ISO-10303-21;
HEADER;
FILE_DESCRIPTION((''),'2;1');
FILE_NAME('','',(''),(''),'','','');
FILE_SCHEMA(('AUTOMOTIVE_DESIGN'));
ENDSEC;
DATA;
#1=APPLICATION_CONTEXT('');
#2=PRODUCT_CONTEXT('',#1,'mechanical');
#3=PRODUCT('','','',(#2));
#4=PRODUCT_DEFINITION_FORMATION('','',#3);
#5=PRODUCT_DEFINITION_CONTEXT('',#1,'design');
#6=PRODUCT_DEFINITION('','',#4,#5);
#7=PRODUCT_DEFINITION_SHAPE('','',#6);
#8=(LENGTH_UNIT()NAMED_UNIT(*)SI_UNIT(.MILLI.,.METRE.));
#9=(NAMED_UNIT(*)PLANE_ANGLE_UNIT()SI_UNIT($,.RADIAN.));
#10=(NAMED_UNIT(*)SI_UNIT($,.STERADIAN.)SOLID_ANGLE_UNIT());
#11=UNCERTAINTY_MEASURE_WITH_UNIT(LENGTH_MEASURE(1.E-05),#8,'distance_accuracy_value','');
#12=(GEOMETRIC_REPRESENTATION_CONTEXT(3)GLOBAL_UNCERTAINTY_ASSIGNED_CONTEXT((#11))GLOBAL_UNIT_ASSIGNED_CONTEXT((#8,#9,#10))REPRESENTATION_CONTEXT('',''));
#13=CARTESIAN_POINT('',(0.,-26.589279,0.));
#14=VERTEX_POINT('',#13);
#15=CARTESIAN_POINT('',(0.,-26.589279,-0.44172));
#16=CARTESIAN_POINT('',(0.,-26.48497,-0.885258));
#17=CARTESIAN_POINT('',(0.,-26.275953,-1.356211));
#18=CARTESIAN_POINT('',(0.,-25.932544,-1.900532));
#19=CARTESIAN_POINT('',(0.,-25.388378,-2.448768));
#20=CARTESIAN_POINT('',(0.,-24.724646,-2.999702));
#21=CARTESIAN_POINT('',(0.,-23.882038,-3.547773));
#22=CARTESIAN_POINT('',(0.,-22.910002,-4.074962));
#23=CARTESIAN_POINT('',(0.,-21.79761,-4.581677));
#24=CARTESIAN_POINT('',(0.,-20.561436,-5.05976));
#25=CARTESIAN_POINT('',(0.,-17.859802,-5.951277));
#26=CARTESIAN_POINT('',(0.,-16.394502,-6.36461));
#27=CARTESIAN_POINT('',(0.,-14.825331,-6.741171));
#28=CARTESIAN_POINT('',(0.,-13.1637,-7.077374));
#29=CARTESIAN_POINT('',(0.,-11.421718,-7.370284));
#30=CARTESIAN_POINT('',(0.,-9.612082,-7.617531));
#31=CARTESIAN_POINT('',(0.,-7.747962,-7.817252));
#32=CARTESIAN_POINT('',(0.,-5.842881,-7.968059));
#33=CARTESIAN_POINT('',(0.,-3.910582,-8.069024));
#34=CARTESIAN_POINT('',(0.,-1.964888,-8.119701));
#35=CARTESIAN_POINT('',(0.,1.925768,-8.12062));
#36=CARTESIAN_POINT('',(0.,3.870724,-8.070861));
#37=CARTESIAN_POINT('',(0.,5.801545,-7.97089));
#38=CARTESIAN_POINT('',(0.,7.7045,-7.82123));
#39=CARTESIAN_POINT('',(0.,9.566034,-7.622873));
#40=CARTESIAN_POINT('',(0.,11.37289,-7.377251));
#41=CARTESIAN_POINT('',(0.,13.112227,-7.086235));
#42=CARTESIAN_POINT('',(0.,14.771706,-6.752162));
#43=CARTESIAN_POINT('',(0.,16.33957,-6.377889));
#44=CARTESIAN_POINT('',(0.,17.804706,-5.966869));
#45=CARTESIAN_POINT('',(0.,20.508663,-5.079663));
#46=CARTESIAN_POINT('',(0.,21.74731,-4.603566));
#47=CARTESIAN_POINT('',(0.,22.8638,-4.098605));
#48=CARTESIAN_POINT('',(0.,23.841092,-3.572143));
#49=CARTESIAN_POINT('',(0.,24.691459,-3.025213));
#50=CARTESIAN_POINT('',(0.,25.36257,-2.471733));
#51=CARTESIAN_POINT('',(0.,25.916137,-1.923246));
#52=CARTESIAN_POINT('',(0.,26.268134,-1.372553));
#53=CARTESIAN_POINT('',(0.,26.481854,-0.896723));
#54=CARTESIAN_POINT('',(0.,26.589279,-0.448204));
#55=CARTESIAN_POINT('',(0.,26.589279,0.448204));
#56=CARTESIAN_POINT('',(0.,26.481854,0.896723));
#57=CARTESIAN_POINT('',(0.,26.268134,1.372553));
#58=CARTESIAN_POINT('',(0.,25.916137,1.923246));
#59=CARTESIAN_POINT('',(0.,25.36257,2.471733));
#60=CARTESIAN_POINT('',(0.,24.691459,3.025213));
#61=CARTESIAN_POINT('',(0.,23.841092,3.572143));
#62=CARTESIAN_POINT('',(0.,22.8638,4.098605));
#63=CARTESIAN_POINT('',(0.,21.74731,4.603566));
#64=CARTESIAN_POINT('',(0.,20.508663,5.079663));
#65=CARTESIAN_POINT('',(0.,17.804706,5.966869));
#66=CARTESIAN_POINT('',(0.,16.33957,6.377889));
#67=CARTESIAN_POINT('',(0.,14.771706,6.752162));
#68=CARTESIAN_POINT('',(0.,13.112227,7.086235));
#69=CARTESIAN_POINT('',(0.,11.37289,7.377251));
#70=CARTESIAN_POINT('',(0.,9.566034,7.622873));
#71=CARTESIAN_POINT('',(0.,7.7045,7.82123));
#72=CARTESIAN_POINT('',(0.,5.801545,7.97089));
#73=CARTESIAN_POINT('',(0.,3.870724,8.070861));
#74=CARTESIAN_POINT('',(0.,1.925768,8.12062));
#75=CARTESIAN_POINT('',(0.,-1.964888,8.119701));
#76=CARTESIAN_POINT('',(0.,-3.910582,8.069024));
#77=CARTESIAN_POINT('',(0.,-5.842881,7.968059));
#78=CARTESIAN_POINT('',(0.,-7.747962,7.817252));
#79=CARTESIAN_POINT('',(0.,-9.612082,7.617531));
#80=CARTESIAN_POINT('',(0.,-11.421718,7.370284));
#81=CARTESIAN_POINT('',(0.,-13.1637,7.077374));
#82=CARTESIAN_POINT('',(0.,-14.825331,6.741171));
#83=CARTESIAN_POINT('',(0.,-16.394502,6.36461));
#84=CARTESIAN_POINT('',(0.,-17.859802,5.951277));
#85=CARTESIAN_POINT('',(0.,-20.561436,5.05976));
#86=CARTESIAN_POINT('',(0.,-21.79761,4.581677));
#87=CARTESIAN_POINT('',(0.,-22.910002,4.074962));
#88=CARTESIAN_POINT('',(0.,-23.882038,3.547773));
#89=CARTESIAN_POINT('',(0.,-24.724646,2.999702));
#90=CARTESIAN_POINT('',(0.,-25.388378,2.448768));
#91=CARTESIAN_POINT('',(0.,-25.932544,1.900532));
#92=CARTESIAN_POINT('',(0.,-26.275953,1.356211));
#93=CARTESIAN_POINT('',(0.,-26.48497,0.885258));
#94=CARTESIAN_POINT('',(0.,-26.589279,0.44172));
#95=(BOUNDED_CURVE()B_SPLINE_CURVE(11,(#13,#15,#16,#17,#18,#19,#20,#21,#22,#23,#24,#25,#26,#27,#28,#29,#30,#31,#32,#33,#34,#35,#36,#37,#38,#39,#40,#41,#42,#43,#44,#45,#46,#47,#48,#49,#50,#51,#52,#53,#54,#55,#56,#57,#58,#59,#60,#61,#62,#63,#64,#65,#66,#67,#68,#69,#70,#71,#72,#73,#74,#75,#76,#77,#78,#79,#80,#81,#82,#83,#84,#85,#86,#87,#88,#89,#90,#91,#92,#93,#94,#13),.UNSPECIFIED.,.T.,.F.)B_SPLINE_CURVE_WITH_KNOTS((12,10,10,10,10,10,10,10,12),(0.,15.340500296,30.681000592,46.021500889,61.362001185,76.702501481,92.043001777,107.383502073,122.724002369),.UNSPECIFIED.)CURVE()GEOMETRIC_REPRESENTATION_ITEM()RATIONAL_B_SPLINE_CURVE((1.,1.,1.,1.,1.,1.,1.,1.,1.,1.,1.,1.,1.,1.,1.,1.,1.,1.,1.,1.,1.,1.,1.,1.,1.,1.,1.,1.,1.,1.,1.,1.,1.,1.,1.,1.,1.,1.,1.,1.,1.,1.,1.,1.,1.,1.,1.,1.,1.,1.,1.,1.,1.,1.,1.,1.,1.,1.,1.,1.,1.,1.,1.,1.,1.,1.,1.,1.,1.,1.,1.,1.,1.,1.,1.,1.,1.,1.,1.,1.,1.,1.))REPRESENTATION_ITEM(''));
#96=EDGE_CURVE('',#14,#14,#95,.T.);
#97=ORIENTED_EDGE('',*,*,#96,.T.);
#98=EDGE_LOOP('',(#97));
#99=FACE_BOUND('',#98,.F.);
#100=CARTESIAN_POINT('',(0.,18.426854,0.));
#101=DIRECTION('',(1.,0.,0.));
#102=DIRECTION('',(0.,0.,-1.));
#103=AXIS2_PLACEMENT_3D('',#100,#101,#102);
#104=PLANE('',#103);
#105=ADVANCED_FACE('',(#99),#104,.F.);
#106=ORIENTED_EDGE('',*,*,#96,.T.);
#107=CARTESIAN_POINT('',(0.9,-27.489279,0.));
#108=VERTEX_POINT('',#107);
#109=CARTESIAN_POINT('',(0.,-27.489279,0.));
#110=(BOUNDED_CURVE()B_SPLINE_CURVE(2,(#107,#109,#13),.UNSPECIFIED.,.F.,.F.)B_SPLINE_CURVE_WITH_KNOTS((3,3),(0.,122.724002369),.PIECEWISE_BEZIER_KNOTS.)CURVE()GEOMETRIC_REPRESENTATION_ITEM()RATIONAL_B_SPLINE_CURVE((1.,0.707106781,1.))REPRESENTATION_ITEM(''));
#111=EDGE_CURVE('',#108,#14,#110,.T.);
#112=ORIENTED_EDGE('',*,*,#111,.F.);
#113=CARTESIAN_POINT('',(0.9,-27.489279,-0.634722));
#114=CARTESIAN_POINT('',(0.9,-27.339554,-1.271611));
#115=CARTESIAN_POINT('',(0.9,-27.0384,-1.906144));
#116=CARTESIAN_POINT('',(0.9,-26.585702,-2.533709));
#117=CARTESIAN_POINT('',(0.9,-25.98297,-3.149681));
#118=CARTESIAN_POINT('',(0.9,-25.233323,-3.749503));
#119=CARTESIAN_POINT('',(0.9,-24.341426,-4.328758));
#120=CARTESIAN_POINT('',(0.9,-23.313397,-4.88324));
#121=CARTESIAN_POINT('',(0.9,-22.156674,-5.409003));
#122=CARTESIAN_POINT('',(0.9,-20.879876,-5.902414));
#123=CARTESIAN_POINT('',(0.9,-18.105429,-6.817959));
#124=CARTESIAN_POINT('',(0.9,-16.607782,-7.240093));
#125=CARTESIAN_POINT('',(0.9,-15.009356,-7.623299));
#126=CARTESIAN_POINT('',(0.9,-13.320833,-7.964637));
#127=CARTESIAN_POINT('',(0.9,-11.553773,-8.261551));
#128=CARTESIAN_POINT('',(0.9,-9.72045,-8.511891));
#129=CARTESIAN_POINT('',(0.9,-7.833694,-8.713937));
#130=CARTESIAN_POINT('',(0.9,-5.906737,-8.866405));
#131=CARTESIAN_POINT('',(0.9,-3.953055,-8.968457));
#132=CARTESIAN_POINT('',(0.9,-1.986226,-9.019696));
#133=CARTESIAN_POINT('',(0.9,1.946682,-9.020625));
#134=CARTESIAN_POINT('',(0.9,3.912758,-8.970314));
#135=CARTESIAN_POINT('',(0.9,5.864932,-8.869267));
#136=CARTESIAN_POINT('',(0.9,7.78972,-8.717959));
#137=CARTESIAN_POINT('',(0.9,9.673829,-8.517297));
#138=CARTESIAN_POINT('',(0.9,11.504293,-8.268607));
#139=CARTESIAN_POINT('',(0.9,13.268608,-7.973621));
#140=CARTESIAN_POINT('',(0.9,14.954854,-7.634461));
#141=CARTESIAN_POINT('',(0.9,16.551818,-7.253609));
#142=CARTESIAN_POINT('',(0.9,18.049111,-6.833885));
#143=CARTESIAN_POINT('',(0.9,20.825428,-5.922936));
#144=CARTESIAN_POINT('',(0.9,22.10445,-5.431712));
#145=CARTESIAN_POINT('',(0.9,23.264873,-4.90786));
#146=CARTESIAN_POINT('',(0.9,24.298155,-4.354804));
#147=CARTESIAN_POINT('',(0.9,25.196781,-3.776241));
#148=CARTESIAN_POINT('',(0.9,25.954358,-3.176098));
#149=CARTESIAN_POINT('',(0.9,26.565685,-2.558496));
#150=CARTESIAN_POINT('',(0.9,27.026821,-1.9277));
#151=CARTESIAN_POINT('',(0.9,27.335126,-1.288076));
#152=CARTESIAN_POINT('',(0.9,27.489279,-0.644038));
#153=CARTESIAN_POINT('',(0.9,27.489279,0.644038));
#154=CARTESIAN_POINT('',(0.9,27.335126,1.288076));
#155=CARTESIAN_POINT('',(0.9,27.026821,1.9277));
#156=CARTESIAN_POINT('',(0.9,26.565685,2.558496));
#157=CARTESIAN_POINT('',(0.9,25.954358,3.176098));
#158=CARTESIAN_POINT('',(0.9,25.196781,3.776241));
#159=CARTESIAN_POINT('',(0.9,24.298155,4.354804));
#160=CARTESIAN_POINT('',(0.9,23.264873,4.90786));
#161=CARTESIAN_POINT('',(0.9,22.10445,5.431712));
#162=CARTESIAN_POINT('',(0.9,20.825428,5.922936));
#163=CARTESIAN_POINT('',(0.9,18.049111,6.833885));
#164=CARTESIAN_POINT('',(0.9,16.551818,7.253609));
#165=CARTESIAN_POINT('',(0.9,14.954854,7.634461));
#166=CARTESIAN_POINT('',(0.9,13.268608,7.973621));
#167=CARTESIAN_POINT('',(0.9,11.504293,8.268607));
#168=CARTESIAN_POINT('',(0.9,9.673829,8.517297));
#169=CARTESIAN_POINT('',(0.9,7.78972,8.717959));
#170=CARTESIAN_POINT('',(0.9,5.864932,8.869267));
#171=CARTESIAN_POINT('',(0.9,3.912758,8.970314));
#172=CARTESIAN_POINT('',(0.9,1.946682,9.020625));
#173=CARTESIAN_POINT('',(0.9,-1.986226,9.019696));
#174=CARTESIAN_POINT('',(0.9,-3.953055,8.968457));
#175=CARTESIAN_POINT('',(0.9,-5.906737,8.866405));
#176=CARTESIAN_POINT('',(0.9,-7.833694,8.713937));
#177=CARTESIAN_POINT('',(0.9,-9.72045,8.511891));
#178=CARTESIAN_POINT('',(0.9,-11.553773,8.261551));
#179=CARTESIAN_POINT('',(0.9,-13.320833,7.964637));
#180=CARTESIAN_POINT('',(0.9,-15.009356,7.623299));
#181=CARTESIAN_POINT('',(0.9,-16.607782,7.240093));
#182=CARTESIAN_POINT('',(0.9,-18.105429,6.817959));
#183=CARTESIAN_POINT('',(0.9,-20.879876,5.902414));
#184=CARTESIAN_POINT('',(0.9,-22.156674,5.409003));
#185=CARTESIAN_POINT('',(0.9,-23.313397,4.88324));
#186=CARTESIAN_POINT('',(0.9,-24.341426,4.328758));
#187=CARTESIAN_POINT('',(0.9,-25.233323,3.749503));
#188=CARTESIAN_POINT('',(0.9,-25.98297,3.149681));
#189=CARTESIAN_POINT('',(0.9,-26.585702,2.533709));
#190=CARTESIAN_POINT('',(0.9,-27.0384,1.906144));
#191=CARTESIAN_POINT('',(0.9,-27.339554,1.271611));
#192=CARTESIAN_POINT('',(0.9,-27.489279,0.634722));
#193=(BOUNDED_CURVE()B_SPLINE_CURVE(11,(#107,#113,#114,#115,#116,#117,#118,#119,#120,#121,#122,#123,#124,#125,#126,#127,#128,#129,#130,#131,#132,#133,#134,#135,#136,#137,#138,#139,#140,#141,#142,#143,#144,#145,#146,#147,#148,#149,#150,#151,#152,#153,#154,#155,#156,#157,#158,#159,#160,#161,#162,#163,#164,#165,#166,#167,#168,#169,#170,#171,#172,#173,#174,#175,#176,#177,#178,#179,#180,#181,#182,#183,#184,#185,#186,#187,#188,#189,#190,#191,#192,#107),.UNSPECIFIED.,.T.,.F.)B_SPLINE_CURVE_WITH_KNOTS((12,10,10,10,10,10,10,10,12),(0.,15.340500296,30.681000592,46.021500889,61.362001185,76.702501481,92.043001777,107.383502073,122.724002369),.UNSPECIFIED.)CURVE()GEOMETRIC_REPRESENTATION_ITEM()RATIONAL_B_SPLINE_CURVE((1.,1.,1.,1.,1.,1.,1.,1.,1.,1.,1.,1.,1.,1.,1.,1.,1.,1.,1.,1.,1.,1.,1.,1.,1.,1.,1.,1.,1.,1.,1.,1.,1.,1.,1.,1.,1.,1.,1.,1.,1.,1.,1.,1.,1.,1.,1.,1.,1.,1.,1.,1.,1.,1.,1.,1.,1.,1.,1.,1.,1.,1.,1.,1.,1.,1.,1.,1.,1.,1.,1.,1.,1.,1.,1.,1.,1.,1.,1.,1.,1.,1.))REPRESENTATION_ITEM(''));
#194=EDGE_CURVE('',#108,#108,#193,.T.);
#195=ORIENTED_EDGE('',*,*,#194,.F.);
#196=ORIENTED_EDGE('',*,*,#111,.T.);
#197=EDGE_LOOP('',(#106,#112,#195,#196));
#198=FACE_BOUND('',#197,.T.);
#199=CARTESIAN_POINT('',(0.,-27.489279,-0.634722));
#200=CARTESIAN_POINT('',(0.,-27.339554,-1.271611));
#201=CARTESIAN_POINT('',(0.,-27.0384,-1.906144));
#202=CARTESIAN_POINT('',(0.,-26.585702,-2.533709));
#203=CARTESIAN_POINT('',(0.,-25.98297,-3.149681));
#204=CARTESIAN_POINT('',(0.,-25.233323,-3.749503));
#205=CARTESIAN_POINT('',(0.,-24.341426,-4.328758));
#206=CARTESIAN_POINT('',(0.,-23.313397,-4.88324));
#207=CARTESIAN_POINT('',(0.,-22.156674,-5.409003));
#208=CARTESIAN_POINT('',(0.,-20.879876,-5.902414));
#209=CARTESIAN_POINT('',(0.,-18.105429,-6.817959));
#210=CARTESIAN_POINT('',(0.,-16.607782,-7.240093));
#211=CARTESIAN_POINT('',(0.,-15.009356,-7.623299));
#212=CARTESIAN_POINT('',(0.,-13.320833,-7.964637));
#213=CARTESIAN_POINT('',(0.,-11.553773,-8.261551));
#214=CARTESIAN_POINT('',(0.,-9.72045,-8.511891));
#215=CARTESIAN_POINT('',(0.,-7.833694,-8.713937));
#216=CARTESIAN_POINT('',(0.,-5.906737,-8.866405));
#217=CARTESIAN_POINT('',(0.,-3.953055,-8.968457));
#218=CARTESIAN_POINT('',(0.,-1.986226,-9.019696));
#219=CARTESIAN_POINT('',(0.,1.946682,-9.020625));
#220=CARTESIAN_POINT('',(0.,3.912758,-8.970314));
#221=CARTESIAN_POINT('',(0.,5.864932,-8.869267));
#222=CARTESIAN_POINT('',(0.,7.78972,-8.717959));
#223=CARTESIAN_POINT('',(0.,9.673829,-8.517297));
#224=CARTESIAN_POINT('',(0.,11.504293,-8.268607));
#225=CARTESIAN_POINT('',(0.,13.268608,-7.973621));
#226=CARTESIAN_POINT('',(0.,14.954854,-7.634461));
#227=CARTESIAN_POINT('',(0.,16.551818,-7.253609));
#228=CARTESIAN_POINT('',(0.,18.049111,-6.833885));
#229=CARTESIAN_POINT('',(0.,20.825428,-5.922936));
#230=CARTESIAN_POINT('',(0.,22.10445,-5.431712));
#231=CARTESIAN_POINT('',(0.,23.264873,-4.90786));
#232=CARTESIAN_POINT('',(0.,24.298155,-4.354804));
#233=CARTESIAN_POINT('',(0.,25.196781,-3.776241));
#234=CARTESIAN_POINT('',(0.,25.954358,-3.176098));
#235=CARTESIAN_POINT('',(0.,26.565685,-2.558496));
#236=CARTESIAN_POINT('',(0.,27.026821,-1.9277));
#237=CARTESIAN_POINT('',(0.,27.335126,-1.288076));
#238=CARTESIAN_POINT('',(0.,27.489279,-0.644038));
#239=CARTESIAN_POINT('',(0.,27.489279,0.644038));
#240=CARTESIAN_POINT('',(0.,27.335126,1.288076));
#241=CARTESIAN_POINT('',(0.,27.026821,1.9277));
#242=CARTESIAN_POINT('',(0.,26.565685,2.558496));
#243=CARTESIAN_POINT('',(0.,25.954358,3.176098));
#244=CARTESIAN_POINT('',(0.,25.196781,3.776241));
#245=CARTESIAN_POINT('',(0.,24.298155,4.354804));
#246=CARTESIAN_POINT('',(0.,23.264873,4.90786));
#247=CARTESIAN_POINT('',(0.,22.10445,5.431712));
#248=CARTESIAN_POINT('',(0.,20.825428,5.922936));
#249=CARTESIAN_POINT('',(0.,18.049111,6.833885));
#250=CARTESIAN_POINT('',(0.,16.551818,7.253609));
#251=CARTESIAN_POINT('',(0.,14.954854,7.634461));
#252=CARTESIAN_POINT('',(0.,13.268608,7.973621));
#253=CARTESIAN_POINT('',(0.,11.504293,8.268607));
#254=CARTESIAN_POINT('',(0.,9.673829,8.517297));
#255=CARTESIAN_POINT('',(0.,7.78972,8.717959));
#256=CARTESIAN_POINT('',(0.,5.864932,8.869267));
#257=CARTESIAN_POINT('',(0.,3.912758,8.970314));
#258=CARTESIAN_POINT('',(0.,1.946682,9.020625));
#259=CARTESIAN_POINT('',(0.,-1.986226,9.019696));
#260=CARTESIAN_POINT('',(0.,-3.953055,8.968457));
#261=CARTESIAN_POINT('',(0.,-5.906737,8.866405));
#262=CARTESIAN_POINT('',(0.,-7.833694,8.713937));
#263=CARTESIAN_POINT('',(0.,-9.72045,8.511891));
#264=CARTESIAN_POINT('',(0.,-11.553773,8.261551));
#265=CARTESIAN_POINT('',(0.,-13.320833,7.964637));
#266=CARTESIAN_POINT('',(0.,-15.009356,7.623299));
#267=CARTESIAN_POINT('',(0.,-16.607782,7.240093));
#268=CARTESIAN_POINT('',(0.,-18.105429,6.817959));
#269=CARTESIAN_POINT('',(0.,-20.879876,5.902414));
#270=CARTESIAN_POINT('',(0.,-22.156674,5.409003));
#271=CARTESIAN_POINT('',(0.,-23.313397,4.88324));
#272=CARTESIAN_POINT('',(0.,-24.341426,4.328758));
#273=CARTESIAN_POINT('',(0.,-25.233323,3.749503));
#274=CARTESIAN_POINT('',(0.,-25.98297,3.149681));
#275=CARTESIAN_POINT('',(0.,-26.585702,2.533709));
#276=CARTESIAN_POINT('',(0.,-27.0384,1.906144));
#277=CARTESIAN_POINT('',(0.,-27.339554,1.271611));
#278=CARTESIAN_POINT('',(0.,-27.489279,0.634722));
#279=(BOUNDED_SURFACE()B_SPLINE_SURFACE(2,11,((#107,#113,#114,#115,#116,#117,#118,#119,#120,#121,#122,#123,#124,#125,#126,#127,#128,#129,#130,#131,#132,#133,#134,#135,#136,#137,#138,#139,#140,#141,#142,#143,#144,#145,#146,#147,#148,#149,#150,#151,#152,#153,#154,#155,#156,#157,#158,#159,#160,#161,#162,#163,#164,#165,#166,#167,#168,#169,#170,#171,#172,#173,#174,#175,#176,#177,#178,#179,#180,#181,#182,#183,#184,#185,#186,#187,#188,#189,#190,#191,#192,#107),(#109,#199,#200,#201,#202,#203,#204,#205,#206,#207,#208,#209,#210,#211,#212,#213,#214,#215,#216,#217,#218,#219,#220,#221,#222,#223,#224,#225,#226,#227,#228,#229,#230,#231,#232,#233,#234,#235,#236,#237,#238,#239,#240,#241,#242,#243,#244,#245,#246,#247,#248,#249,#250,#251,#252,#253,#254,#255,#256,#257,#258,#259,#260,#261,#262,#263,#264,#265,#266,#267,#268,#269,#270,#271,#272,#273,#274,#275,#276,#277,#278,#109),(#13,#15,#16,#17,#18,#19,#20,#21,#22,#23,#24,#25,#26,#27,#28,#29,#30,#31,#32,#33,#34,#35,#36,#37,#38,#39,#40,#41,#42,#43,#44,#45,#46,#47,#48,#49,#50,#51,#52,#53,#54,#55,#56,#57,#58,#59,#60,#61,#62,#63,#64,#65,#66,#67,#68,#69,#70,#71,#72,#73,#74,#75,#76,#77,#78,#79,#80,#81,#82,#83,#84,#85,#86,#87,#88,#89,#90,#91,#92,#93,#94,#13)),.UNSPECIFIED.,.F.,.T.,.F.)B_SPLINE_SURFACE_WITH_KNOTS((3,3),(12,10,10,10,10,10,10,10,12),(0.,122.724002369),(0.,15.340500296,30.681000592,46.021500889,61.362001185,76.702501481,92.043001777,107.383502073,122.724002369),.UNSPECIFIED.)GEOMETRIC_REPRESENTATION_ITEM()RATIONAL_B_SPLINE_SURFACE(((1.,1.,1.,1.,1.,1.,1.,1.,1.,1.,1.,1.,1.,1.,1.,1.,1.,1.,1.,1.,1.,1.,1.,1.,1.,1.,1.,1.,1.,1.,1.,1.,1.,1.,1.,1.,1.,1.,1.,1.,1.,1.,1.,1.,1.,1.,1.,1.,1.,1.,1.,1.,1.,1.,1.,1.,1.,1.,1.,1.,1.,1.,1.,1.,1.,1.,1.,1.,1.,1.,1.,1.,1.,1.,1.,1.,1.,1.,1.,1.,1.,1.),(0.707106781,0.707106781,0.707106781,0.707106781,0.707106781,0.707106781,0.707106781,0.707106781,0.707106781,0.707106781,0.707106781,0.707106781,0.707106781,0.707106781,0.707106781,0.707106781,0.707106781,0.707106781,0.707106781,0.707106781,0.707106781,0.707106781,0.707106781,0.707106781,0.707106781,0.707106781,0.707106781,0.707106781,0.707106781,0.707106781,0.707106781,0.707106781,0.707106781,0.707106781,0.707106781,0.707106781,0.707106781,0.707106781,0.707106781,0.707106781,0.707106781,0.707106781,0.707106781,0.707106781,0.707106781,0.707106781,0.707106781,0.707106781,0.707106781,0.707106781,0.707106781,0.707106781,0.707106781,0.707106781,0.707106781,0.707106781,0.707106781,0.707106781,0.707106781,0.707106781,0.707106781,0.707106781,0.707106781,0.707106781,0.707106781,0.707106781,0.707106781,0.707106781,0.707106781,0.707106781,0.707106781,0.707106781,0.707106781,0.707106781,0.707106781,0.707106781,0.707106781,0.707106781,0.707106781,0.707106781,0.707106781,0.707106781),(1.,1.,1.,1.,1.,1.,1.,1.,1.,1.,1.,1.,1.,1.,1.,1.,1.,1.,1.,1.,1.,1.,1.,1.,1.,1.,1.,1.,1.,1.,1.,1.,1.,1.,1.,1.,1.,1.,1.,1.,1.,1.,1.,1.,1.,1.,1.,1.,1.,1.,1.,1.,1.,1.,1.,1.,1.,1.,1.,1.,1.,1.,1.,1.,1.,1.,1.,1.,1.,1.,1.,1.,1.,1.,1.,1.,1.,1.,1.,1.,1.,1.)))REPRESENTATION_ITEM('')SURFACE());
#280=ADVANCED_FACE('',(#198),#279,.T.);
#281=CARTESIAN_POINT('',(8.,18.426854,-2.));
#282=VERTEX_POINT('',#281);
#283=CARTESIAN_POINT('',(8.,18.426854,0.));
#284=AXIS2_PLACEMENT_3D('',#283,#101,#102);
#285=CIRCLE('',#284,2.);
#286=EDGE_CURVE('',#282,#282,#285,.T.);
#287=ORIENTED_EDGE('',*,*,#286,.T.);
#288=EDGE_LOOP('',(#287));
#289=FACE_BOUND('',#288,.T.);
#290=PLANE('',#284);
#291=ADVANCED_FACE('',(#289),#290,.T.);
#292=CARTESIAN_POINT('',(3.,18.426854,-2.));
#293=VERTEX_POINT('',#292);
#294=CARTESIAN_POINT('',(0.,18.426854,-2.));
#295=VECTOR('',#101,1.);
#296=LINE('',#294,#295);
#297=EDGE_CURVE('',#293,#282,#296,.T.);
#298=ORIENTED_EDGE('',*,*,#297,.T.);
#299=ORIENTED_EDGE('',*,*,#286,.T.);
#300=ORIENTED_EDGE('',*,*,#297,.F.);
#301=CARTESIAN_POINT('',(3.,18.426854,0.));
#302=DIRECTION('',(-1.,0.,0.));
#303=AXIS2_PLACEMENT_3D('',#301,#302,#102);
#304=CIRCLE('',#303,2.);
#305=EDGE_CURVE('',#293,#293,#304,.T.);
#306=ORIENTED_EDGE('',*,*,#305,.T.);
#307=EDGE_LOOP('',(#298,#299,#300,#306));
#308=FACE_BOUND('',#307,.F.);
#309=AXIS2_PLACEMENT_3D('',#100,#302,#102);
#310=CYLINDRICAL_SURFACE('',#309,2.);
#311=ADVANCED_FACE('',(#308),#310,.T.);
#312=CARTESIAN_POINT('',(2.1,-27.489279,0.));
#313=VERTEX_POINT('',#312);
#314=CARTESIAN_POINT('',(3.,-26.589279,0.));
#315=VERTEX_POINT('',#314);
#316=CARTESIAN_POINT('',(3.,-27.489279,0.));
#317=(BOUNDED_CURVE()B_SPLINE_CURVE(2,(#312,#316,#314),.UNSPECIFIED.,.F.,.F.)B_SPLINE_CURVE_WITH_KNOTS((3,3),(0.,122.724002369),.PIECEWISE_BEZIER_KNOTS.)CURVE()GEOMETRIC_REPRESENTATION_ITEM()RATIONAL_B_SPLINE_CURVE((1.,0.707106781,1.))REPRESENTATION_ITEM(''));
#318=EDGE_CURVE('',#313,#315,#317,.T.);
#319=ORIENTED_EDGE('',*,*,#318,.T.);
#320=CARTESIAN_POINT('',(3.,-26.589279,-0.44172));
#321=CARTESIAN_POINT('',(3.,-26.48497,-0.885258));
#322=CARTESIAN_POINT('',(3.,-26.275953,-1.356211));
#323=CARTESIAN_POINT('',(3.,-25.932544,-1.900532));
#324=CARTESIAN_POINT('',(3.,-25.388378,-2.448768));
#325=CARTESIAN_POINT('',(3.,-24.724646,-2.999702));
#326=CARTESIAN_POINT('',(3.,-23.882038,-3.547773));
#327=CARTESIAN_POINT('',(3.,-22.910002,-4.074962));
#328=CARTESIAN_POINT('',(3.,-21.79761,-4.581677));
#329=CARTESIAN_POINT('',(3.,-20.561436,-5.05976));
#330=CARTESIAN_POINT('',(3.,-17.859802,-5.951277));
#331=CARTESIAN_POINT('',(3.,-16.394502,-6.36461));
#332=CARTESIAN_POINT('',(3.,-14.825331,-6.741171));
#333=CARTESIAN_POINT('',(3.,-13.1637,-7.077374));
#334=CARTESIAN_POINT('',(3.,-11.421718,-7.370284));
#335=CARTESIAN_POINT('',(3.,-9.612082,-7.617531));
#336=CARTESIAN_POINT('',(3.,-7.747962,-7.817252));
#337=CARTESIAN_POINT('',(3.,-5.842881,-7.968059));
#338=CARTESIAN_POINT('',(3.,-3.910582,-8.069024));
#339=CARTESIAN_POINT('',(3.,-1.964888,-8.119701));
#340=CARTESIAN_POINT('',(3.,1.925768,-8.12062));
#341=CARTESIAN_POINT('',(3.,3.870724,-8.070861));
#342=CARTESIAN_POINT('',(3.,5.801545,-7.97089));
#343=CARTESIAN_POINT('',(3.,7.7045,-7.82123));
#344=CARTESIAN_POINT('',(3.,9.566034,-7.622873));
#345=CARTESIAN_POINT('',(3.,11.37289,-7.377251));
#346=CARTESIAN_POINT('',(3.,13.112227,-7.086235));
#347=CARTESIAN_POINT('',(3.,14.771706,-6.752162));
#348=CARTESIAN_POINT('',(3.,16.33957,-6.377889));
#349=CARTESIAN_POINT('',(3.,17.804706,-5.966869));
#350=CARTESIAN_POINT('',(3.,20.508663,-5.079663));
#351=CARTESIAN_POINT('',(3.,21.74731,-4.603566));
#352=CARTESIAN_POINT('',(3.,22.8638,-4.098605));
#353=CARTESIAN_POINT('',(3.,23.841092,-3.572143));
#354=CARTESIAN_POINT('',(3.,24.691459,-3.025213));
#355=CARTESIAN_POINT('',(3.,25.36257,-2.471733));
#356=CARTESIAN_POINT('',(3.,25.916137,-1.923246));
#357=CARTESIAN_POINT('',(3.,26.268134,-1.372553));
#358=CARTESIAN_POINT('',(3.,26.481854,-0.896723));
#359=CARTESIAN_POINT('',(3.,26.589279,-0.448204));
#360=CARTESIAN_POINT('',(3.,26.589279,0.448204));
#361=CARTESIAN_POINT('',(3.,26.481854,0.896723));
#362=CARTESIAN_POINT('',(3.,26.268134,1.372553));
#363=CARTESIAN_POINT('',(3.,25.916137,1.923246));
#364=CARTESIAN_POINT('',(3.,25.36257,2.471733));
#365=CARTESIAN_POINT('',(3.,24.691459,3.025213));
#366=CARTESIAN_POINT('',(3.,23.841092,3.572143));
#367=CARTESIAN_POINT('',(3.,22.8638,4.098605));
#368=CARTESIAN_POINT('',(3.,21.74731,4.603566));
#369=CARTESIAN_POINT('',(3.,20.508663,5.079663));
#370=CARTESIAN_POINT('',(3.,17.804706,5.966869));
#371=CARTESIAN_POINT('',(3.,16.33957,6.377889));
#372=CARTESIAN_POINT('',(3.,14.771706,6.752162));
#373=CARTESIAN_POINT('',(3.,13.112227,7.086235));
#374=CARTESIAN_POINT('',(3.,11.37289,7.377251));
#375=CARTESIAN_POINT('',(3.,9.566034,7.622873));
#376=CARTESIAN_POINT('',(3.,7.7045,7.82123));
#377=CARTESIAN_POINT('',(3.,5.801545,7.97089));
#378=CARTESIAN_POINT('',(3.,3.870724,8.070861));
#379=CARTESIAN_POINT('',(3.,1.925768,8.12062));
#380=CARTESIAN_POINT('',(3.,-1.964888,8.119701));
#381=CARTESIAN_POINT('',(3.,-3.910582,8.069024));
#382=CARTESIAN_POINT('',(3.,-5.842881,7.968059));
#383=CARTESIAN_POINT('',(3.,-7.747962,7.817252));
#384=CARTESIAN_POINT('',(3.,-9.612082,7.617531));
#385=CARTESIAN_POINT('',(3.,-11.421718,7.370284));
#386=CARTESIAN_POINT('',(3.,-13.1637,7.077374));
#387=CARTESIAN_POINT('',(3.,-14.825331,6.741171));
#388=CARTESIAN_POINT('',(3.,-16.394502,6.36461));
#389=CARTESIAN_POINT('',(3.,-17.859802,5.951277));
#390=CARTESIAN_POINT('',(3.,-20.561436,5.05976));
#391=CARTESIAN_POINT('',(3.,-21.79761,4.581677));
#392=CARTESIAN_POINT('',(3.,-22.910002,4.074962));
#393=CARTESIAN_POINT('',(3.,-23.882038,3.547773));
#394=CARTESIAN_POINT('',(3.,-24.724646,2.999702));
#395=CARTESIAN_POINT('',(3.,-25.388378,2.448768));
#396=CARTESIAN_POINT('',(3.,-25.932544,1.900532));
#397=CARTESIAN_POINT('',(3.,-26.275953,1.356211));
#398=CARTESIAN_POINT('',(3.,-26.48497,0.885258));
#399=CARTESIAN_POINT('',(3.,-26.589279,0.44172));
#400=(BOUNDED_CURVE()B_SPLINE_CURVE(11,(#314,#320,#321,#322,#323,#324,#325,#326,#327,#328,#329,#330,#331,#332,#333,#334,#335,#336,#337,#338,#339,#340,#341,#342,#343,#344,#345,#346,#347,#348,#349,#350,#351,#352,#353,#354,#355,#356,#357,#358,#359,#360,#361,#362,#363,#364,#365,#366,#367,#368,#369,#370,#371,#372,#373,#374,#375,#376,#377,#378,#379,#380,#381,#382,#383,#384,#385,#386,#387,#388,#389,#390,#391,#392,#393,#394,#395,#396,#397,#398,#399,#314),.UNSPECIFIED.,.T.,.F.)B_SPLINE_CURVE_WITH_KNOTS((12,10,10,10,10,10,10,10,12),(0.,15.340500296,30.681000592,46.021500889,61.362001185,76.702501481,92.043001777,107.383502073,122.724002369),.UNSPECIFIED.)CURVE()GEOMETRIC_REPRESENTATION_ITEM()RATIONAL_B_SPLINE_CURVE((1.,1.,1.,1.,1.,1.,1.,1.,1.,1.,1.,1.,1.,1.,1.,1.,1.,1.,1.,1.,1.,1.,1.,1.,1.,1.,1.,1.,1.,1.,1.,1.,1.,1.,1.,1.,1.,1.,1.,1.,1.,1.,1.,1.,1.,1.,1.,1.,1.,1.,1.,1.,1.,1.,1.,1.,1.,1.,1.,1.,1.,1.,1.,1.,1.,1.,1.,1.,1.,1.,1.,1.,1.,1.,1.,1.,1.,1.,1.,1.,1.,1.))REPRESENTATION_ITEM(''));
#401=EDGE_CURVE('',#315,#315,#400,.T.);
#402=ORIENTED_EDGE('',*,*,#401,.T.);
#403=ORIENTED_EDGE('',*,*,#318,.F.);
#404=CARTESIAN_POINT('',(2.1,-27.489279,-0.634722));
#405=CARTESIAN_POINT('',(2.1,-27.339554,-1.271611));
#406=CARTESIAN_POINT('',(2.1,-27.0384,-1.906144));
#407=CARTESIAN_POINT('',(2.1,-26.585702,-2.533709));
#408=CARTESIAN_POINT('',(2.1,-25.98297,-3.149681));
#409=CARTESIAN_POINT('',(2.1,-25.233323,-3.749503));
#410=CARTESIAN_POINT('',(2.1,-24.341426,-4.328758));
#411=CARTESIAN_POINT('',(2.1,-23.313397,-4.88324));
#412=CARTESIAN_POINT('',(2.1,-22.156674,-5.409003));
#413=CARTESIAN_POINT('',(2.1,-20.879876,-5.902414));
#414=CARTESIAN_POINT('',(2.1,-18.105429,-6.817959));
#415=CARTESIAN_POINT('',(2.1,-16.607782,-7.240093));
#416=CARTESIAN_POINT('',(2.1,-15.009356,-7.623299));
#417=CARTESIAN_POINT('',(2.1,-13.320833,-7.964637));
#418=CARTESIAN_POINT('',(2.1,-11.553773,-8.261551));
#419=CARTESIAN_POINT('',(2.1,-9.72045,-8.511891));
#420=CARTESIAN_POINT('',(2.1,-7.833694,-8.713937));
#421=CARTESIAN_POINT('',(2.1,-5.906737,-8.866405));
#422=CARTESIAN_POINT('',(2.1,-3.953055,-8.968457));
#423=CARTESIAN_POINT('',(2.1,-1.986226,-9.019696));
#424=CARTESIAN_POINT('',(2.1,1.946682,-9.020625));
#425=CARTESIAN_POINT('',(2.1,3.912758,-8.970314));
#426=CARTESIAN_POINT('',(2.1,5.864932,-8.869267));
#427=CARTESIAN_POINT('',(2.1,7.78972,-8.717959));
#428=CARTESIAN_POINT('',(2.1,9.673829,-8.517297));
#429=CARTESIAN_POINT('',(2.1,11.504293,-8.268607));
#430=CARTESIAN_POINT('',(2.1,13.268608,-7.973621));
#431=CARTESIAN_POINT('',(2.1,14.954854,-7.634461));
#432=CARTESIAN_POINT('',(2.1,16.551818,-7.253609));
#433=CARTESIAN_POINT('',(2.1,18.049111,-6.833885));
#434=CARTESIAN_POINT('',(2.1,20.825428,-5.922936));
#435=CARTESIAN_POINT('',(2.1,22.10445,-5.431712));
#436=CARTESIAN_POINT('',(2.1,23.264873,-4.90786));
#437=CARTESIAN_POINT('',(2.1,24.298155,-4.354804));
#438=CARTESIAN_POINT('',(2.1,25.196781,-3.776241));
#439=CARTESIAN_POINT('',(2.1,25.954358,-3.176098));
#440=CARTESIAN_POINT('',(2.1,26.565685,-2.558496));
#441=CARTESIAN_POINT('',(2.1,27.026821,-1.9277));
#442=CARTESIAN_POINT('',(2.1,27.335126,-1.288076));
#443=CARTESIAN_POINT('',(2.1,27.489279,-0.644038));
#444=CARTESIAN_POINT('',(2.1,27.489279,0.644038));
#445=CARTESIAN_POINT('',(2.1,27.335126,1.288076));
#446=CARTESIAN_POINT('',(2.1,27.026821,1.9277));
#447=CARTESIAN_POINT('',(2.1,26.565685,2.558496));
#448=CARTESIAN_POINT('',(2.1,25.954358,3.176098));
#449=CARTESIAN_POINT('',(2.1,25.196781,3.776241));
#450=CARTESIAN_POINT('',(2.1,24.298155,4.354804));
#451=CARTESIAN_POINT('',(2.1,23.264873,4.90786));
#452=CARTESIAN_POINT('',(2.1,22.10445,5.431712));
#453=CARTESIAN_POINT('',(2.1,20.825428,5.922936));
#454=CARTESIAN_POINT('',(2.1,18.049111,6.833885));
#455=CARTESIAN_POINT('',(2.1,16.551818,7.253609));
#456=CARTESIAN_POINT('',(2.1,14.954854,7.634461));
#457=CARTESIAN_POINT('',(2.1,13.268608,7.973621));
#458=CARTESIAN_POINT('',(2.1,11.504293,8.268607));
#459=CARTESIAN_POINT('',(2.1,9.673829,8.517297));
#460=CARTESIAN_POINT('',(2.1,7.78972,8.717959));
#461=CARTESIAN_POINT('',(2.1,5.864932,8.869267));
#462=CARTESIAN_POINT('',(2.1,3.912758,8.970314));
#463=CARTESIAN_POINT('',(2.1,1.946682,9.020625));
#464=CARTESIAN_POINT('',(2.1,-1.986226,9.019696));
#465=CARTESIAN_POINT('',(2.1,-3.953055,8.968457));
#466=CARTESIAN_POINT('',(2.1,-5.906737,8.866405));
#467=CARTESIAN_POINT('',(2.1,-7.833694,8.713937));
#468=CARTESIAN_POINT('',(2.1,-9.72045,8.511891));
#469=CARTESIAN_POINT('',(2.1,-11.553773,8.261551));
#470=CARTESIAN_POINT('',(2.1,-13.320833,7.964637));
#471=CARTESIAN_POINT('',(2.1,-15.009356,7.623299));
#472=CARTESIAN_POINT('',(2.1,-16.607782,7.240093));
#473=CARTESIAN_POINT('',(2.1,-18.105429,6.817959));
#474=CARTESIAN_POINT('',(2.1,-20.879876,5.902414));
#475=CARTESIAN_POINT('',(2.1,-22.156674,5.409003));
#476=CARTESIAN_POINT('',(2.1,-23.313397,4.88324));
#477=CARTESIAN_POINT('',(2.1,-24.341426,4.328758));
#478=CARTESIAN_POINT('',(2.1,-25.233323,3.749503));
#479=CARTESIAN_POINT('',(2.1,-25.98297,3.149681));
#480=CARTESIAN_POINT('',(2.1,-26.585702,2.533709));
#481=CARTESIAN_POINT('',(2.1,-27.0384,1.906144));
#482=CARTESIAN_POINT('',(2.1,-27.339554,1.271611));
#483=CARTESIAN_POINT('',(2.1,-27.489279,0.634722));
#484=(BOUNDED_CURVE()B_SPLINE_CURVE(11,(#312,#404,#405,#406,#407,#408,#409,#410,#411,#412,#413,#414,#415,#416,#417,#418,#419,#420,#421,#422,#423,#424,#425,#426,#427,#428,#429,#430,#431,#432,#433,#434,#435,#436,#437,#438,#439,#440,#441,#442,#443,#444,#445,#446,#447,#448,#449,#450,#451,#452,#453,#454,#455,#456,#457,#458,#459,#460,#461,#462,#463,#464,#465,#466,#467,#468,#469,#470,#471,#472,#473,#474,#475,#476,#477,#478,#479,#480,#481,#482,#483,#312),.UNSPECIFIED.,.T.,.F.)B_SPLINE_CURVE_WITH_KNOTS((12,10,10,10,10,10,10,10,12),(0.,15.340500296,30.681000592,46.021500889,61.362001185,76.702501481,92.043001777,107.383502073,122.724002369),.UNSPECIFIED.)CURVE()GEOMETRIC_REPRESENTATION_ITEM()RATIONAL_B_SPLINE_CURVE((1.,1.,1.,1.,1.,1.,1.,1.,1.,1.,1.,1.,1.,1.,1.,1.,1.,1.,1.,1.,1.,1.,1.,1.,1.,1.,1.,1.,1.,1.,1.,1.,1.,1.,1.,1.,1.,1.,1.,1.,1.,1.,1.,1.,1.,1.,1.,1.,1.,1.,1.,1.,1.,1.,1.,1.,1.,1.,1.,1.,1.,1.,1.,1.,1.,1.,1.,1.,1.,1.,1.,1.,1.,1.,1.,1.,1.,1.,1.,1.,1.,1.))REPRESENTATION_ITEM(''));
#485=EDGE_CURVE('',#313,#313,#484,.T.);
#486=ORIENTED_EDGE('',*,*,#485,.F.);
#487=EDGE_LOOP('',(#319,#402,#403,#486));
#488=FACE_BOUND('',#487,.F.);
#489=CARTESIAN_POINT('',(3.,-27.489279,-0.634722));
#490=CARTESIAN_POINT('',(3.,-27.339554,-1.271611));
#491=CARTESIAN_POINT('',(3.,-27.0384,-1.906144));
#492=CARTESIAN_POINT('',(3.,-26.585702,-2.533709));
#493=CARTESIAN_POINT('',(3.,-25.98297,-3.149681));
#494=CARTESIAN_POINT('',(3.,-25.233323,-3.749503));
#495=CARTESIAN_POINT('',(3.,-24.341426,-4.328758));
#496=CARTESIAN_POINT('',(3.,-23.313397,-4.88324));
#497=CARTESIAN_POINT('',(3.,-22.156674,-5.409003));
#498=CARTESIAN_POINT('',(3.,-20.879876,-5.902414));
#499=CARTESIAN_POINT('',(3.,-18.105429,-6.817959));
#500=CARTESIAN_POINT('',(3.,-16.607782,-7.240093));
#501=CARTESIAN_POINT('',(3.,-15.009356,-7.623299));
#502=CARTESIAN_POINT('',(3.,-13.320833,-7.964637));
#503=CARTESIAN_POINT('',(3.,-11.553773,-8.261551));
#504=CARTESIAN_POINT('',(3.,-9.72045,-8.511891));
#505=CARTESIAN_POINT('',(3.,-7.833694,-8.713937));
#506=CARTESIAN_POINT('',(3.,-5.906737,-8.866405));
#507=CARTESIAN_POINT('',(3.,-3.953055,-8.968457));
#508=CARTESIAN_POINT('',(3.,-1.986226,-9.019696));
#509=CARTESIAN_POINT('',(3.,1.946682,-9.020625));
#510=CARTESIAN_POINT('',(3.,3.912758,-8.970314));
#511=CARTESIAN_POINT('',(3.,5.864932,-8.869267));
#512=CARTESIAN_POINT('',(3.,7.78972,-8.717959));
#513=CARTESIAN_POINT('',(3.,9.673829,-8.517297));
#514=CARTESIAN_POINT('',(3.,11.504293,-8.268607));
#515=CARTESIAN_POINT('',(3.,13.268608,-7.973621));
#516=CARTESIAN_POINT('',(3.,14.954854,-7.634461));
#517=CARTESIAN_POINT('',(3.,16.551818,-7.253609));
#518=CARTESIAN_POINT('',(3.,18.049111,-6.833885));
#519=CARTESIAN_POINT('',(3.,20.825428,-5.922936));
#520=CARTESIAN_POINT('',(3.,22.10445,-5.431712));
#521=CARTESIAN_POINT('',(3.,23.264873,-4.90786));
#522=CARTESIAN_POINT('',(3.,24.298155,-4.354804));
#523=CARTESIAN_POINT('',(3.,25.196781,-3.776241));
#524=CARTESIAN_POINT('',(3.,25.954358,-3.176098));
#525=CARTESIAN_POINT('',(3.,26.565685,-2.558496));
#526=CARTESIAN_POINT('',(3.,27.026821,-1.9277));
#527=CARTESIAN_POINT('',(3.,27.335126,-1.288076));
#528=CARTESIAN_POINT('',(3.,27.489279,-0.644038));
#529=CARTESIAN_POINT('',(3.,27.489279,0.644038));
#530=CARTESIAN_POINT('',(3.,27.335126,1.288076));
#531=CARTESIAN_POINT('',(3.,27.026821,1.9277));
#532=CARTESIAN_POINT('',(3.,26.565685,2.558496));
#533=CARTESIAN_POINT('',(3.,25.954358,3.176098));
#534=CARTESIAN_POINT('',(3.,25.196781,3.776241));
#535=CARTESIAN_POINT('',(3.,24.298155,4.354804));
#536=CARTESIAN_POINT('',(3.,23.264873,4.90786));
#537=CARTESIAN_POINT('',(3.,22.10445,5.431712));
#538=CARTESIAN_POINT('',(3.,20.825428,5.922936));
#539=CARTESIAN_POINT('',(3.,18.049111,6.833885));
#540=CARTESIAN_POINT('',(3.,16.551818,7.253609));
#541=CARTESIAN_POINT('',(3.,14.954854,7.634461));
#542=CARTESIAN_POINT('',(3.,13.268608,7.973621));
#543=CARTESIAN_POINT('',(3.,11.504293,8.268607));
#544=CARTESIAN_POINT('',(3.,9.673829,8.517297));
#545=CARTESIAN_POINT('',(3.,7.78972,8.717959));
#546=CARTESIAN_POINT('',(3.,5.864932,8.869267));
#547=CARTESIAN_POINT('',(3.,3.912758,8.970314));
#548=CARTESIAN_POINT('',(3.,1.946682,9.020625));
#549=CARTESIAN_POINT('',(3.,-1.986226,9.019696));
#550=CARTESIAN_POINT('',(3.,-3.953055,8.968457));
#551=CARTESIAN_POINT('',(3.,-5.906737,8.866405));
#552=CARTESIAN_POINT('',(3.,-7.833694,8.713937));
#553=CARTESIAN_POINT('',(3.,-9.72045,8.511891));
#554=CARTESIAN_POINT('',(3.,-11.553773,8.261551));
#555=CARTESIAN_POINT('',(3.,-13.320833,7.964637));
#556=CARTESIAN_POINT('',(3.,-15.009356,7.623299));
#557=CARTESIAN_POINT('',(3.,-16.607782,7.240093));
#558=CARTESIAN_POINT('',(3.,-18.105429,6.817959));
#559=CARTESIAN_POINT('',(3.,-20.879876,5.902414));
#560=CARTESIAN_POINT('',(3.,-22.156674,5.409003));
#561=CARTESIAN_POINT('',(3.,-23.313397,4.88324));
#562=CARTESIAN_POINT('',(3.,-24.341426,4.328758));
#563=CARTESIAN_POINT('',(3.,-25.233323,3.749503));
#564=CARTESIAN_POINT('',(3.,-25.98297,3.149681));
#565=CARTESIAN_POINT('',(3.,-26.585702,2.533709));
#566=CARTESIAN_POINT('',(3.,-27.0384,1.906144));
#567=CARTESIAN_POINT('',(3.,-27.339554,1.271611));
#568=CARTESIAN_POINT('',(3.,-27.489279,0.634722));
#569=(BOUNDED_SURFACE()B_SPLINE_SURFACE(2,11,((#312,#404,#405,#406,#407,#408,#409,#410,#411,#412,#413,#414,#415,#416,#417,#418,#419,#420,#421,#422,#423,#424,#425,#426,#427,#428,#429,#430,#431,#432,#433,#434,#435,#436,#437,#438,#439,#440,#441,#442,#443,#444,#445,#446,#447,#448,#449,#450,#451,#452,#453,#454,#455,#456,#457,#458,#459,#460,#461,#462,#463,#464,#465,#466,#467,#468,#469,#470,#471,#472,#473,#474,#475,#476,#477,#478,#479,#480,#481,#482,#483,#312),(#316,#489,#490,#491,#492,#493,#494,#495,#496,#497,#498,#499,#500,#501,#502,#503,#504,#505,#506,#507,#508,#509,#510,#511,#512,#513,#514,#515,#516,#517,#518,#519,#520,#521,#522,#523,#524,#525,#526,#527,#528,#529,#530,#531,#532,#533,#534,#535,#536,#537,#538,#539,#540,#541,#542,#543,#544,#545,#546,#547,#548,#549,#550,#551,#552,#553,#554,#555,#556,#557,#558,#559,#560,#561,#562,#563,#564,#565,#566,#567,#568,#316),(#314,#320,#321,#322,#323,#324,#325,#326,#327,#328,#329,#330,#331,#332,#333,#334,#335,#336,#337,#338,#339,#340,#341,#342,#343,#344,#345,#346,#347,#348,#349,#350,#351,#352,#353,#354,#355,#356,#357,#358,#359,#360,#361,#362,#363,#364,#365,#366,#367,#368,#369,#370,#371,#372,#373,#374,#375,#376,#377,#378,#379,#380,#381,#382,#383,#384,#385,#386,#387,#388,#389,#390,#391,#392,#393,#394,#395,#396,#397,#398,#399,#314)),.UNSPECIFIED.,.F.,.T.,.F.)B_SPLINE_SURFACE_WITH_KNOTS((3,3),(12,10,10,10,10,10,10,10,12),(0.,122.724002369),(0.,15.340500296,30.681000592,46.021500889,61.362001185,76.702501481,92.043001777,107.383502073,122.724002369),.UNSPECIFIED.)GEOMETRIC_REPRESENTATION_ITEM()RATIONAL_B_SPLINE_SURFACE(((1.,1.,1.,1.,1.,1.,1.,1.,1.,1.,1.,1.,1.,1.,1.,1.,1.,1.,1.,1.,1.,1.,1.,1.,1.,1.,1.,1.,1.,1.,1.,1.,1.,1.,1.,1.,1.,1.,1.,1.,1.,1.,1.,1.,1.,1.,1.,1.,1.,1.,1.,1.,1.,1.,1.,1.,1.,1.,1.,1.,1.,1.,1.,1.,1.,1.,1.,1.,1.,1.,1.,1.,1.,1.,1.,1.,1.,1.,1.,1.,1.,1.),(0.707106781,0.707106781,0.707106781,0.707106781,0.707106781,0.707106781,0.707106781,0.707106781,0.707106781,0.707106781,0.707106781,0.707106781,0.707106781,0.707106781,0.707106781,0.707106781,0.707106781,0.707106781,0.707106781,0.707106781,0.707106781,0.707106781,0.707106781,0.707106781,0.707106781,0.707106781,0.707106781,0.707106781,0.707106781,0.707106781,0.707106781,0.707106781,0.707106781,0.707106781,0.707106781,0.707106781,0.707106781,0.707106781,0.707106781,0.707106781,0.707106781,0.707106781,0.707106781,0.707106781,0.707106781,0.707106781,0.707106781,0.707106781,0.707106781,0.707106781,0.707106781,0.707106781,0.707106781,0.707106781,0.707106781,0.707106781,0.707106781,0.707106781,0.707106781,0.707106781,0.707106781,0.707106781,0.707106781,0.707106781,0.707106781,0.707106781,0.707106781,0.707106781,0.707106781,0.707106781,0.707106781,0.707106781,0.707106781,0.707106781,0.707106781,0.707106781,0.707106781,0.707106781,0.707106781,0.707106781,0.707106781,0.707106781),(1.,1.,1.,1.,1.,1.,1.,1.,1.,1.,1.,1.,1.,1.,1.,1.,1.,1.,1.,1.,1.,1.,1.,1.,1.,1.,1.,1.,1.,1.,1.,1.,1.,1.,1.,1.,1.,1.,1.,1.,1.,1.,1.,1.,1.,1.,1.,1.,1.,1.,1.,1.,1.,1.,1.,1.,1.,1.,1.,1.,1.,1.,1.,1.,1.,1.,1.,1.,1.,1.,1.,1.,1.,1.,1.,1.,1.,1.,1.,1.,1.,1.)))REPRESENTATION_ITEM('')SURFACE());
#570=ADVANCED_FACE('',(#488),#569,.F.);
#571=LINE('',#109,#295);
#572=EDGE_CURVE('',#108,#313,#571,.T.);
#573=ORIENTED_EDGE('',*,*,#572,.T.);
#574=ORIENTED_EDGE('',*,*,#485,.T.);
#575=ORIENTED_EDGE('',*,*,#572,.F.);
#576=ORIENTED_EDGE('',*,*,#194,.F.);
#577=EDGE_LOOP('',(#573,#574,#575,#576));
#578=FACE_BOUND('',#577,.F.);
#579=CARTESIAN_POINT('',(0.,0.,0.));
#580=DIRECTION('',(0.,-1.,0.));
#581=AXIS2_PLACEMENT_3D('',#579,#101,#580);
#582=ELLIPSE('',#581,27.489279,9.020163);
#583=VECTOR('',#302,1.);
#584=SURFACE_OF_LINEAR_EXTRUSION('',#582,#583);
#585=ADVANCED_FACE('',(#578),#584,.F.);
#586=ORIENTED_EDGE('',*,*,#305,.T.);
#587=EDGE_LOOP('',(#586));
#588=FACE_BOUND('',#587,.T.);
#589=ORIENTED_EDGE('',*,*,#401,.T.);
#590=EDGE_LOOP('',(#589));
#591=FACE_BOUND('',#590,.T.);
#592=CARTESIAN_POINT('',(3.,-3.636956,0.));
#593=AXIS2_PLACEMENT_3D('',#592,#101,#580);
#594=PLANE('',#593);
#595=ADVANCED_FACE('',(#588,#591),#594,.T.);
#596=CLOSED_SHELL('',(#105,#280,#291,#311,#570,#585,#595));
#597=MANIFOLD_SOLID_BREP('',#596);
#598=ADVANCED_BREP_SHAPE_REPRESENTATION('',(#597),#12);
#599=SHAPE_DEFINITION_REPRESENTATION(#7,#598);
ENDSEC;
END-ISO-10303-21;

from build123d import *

# Parameters (mm, degrees)
SKETCH2_RX          = 27.489278617
SKETCH2_RY          = 9.020162911
BOSS_EXTRUDE2_DEPTH = 3
FILLET2_R           = 0.9
SKETCH3_R           = 2
BOSS_EXTRUDE3_DEPTH = 8


with BuildPart() as part:
    # Sketch2 → Boss-Extrude2 (new body)
    with BuildSketch(Plane(origin=(0, 0, 0), x_dir=(0, 0, -1), z_dir=(1, 0, 0))):
        with Locations(Location((0, 0), (0, 0, -90))):
            Ellipse(SKETCH2_RX, SKETCH2_RY)
    extrude(amount=BOSS_EXTRUDE2_DEPTH)

    # Fillet2
    fillet2_edges = [part.edges().sort_by_distance(p)[0] for p in [
        (0, 27.475941738, 0.280945539),
        (3, 27.475941738, 0.280945539),
    ]]
    fillet(fillet2_edges, radius=FILLET2_R)

    # Sketch3 → Boss-Extrude3 (add)
    with BuildSketch(Plane(origin=(0, 0, 0), x_dir=(0, 0, -1), z_dir=(1, 0, 0))):
        with Locations((0, 18.426854194)):
            Circle(SKETCH3_R)
    extrude(amount=BOSS_EXTRUDE3_DEPTH)


solid = part.part
